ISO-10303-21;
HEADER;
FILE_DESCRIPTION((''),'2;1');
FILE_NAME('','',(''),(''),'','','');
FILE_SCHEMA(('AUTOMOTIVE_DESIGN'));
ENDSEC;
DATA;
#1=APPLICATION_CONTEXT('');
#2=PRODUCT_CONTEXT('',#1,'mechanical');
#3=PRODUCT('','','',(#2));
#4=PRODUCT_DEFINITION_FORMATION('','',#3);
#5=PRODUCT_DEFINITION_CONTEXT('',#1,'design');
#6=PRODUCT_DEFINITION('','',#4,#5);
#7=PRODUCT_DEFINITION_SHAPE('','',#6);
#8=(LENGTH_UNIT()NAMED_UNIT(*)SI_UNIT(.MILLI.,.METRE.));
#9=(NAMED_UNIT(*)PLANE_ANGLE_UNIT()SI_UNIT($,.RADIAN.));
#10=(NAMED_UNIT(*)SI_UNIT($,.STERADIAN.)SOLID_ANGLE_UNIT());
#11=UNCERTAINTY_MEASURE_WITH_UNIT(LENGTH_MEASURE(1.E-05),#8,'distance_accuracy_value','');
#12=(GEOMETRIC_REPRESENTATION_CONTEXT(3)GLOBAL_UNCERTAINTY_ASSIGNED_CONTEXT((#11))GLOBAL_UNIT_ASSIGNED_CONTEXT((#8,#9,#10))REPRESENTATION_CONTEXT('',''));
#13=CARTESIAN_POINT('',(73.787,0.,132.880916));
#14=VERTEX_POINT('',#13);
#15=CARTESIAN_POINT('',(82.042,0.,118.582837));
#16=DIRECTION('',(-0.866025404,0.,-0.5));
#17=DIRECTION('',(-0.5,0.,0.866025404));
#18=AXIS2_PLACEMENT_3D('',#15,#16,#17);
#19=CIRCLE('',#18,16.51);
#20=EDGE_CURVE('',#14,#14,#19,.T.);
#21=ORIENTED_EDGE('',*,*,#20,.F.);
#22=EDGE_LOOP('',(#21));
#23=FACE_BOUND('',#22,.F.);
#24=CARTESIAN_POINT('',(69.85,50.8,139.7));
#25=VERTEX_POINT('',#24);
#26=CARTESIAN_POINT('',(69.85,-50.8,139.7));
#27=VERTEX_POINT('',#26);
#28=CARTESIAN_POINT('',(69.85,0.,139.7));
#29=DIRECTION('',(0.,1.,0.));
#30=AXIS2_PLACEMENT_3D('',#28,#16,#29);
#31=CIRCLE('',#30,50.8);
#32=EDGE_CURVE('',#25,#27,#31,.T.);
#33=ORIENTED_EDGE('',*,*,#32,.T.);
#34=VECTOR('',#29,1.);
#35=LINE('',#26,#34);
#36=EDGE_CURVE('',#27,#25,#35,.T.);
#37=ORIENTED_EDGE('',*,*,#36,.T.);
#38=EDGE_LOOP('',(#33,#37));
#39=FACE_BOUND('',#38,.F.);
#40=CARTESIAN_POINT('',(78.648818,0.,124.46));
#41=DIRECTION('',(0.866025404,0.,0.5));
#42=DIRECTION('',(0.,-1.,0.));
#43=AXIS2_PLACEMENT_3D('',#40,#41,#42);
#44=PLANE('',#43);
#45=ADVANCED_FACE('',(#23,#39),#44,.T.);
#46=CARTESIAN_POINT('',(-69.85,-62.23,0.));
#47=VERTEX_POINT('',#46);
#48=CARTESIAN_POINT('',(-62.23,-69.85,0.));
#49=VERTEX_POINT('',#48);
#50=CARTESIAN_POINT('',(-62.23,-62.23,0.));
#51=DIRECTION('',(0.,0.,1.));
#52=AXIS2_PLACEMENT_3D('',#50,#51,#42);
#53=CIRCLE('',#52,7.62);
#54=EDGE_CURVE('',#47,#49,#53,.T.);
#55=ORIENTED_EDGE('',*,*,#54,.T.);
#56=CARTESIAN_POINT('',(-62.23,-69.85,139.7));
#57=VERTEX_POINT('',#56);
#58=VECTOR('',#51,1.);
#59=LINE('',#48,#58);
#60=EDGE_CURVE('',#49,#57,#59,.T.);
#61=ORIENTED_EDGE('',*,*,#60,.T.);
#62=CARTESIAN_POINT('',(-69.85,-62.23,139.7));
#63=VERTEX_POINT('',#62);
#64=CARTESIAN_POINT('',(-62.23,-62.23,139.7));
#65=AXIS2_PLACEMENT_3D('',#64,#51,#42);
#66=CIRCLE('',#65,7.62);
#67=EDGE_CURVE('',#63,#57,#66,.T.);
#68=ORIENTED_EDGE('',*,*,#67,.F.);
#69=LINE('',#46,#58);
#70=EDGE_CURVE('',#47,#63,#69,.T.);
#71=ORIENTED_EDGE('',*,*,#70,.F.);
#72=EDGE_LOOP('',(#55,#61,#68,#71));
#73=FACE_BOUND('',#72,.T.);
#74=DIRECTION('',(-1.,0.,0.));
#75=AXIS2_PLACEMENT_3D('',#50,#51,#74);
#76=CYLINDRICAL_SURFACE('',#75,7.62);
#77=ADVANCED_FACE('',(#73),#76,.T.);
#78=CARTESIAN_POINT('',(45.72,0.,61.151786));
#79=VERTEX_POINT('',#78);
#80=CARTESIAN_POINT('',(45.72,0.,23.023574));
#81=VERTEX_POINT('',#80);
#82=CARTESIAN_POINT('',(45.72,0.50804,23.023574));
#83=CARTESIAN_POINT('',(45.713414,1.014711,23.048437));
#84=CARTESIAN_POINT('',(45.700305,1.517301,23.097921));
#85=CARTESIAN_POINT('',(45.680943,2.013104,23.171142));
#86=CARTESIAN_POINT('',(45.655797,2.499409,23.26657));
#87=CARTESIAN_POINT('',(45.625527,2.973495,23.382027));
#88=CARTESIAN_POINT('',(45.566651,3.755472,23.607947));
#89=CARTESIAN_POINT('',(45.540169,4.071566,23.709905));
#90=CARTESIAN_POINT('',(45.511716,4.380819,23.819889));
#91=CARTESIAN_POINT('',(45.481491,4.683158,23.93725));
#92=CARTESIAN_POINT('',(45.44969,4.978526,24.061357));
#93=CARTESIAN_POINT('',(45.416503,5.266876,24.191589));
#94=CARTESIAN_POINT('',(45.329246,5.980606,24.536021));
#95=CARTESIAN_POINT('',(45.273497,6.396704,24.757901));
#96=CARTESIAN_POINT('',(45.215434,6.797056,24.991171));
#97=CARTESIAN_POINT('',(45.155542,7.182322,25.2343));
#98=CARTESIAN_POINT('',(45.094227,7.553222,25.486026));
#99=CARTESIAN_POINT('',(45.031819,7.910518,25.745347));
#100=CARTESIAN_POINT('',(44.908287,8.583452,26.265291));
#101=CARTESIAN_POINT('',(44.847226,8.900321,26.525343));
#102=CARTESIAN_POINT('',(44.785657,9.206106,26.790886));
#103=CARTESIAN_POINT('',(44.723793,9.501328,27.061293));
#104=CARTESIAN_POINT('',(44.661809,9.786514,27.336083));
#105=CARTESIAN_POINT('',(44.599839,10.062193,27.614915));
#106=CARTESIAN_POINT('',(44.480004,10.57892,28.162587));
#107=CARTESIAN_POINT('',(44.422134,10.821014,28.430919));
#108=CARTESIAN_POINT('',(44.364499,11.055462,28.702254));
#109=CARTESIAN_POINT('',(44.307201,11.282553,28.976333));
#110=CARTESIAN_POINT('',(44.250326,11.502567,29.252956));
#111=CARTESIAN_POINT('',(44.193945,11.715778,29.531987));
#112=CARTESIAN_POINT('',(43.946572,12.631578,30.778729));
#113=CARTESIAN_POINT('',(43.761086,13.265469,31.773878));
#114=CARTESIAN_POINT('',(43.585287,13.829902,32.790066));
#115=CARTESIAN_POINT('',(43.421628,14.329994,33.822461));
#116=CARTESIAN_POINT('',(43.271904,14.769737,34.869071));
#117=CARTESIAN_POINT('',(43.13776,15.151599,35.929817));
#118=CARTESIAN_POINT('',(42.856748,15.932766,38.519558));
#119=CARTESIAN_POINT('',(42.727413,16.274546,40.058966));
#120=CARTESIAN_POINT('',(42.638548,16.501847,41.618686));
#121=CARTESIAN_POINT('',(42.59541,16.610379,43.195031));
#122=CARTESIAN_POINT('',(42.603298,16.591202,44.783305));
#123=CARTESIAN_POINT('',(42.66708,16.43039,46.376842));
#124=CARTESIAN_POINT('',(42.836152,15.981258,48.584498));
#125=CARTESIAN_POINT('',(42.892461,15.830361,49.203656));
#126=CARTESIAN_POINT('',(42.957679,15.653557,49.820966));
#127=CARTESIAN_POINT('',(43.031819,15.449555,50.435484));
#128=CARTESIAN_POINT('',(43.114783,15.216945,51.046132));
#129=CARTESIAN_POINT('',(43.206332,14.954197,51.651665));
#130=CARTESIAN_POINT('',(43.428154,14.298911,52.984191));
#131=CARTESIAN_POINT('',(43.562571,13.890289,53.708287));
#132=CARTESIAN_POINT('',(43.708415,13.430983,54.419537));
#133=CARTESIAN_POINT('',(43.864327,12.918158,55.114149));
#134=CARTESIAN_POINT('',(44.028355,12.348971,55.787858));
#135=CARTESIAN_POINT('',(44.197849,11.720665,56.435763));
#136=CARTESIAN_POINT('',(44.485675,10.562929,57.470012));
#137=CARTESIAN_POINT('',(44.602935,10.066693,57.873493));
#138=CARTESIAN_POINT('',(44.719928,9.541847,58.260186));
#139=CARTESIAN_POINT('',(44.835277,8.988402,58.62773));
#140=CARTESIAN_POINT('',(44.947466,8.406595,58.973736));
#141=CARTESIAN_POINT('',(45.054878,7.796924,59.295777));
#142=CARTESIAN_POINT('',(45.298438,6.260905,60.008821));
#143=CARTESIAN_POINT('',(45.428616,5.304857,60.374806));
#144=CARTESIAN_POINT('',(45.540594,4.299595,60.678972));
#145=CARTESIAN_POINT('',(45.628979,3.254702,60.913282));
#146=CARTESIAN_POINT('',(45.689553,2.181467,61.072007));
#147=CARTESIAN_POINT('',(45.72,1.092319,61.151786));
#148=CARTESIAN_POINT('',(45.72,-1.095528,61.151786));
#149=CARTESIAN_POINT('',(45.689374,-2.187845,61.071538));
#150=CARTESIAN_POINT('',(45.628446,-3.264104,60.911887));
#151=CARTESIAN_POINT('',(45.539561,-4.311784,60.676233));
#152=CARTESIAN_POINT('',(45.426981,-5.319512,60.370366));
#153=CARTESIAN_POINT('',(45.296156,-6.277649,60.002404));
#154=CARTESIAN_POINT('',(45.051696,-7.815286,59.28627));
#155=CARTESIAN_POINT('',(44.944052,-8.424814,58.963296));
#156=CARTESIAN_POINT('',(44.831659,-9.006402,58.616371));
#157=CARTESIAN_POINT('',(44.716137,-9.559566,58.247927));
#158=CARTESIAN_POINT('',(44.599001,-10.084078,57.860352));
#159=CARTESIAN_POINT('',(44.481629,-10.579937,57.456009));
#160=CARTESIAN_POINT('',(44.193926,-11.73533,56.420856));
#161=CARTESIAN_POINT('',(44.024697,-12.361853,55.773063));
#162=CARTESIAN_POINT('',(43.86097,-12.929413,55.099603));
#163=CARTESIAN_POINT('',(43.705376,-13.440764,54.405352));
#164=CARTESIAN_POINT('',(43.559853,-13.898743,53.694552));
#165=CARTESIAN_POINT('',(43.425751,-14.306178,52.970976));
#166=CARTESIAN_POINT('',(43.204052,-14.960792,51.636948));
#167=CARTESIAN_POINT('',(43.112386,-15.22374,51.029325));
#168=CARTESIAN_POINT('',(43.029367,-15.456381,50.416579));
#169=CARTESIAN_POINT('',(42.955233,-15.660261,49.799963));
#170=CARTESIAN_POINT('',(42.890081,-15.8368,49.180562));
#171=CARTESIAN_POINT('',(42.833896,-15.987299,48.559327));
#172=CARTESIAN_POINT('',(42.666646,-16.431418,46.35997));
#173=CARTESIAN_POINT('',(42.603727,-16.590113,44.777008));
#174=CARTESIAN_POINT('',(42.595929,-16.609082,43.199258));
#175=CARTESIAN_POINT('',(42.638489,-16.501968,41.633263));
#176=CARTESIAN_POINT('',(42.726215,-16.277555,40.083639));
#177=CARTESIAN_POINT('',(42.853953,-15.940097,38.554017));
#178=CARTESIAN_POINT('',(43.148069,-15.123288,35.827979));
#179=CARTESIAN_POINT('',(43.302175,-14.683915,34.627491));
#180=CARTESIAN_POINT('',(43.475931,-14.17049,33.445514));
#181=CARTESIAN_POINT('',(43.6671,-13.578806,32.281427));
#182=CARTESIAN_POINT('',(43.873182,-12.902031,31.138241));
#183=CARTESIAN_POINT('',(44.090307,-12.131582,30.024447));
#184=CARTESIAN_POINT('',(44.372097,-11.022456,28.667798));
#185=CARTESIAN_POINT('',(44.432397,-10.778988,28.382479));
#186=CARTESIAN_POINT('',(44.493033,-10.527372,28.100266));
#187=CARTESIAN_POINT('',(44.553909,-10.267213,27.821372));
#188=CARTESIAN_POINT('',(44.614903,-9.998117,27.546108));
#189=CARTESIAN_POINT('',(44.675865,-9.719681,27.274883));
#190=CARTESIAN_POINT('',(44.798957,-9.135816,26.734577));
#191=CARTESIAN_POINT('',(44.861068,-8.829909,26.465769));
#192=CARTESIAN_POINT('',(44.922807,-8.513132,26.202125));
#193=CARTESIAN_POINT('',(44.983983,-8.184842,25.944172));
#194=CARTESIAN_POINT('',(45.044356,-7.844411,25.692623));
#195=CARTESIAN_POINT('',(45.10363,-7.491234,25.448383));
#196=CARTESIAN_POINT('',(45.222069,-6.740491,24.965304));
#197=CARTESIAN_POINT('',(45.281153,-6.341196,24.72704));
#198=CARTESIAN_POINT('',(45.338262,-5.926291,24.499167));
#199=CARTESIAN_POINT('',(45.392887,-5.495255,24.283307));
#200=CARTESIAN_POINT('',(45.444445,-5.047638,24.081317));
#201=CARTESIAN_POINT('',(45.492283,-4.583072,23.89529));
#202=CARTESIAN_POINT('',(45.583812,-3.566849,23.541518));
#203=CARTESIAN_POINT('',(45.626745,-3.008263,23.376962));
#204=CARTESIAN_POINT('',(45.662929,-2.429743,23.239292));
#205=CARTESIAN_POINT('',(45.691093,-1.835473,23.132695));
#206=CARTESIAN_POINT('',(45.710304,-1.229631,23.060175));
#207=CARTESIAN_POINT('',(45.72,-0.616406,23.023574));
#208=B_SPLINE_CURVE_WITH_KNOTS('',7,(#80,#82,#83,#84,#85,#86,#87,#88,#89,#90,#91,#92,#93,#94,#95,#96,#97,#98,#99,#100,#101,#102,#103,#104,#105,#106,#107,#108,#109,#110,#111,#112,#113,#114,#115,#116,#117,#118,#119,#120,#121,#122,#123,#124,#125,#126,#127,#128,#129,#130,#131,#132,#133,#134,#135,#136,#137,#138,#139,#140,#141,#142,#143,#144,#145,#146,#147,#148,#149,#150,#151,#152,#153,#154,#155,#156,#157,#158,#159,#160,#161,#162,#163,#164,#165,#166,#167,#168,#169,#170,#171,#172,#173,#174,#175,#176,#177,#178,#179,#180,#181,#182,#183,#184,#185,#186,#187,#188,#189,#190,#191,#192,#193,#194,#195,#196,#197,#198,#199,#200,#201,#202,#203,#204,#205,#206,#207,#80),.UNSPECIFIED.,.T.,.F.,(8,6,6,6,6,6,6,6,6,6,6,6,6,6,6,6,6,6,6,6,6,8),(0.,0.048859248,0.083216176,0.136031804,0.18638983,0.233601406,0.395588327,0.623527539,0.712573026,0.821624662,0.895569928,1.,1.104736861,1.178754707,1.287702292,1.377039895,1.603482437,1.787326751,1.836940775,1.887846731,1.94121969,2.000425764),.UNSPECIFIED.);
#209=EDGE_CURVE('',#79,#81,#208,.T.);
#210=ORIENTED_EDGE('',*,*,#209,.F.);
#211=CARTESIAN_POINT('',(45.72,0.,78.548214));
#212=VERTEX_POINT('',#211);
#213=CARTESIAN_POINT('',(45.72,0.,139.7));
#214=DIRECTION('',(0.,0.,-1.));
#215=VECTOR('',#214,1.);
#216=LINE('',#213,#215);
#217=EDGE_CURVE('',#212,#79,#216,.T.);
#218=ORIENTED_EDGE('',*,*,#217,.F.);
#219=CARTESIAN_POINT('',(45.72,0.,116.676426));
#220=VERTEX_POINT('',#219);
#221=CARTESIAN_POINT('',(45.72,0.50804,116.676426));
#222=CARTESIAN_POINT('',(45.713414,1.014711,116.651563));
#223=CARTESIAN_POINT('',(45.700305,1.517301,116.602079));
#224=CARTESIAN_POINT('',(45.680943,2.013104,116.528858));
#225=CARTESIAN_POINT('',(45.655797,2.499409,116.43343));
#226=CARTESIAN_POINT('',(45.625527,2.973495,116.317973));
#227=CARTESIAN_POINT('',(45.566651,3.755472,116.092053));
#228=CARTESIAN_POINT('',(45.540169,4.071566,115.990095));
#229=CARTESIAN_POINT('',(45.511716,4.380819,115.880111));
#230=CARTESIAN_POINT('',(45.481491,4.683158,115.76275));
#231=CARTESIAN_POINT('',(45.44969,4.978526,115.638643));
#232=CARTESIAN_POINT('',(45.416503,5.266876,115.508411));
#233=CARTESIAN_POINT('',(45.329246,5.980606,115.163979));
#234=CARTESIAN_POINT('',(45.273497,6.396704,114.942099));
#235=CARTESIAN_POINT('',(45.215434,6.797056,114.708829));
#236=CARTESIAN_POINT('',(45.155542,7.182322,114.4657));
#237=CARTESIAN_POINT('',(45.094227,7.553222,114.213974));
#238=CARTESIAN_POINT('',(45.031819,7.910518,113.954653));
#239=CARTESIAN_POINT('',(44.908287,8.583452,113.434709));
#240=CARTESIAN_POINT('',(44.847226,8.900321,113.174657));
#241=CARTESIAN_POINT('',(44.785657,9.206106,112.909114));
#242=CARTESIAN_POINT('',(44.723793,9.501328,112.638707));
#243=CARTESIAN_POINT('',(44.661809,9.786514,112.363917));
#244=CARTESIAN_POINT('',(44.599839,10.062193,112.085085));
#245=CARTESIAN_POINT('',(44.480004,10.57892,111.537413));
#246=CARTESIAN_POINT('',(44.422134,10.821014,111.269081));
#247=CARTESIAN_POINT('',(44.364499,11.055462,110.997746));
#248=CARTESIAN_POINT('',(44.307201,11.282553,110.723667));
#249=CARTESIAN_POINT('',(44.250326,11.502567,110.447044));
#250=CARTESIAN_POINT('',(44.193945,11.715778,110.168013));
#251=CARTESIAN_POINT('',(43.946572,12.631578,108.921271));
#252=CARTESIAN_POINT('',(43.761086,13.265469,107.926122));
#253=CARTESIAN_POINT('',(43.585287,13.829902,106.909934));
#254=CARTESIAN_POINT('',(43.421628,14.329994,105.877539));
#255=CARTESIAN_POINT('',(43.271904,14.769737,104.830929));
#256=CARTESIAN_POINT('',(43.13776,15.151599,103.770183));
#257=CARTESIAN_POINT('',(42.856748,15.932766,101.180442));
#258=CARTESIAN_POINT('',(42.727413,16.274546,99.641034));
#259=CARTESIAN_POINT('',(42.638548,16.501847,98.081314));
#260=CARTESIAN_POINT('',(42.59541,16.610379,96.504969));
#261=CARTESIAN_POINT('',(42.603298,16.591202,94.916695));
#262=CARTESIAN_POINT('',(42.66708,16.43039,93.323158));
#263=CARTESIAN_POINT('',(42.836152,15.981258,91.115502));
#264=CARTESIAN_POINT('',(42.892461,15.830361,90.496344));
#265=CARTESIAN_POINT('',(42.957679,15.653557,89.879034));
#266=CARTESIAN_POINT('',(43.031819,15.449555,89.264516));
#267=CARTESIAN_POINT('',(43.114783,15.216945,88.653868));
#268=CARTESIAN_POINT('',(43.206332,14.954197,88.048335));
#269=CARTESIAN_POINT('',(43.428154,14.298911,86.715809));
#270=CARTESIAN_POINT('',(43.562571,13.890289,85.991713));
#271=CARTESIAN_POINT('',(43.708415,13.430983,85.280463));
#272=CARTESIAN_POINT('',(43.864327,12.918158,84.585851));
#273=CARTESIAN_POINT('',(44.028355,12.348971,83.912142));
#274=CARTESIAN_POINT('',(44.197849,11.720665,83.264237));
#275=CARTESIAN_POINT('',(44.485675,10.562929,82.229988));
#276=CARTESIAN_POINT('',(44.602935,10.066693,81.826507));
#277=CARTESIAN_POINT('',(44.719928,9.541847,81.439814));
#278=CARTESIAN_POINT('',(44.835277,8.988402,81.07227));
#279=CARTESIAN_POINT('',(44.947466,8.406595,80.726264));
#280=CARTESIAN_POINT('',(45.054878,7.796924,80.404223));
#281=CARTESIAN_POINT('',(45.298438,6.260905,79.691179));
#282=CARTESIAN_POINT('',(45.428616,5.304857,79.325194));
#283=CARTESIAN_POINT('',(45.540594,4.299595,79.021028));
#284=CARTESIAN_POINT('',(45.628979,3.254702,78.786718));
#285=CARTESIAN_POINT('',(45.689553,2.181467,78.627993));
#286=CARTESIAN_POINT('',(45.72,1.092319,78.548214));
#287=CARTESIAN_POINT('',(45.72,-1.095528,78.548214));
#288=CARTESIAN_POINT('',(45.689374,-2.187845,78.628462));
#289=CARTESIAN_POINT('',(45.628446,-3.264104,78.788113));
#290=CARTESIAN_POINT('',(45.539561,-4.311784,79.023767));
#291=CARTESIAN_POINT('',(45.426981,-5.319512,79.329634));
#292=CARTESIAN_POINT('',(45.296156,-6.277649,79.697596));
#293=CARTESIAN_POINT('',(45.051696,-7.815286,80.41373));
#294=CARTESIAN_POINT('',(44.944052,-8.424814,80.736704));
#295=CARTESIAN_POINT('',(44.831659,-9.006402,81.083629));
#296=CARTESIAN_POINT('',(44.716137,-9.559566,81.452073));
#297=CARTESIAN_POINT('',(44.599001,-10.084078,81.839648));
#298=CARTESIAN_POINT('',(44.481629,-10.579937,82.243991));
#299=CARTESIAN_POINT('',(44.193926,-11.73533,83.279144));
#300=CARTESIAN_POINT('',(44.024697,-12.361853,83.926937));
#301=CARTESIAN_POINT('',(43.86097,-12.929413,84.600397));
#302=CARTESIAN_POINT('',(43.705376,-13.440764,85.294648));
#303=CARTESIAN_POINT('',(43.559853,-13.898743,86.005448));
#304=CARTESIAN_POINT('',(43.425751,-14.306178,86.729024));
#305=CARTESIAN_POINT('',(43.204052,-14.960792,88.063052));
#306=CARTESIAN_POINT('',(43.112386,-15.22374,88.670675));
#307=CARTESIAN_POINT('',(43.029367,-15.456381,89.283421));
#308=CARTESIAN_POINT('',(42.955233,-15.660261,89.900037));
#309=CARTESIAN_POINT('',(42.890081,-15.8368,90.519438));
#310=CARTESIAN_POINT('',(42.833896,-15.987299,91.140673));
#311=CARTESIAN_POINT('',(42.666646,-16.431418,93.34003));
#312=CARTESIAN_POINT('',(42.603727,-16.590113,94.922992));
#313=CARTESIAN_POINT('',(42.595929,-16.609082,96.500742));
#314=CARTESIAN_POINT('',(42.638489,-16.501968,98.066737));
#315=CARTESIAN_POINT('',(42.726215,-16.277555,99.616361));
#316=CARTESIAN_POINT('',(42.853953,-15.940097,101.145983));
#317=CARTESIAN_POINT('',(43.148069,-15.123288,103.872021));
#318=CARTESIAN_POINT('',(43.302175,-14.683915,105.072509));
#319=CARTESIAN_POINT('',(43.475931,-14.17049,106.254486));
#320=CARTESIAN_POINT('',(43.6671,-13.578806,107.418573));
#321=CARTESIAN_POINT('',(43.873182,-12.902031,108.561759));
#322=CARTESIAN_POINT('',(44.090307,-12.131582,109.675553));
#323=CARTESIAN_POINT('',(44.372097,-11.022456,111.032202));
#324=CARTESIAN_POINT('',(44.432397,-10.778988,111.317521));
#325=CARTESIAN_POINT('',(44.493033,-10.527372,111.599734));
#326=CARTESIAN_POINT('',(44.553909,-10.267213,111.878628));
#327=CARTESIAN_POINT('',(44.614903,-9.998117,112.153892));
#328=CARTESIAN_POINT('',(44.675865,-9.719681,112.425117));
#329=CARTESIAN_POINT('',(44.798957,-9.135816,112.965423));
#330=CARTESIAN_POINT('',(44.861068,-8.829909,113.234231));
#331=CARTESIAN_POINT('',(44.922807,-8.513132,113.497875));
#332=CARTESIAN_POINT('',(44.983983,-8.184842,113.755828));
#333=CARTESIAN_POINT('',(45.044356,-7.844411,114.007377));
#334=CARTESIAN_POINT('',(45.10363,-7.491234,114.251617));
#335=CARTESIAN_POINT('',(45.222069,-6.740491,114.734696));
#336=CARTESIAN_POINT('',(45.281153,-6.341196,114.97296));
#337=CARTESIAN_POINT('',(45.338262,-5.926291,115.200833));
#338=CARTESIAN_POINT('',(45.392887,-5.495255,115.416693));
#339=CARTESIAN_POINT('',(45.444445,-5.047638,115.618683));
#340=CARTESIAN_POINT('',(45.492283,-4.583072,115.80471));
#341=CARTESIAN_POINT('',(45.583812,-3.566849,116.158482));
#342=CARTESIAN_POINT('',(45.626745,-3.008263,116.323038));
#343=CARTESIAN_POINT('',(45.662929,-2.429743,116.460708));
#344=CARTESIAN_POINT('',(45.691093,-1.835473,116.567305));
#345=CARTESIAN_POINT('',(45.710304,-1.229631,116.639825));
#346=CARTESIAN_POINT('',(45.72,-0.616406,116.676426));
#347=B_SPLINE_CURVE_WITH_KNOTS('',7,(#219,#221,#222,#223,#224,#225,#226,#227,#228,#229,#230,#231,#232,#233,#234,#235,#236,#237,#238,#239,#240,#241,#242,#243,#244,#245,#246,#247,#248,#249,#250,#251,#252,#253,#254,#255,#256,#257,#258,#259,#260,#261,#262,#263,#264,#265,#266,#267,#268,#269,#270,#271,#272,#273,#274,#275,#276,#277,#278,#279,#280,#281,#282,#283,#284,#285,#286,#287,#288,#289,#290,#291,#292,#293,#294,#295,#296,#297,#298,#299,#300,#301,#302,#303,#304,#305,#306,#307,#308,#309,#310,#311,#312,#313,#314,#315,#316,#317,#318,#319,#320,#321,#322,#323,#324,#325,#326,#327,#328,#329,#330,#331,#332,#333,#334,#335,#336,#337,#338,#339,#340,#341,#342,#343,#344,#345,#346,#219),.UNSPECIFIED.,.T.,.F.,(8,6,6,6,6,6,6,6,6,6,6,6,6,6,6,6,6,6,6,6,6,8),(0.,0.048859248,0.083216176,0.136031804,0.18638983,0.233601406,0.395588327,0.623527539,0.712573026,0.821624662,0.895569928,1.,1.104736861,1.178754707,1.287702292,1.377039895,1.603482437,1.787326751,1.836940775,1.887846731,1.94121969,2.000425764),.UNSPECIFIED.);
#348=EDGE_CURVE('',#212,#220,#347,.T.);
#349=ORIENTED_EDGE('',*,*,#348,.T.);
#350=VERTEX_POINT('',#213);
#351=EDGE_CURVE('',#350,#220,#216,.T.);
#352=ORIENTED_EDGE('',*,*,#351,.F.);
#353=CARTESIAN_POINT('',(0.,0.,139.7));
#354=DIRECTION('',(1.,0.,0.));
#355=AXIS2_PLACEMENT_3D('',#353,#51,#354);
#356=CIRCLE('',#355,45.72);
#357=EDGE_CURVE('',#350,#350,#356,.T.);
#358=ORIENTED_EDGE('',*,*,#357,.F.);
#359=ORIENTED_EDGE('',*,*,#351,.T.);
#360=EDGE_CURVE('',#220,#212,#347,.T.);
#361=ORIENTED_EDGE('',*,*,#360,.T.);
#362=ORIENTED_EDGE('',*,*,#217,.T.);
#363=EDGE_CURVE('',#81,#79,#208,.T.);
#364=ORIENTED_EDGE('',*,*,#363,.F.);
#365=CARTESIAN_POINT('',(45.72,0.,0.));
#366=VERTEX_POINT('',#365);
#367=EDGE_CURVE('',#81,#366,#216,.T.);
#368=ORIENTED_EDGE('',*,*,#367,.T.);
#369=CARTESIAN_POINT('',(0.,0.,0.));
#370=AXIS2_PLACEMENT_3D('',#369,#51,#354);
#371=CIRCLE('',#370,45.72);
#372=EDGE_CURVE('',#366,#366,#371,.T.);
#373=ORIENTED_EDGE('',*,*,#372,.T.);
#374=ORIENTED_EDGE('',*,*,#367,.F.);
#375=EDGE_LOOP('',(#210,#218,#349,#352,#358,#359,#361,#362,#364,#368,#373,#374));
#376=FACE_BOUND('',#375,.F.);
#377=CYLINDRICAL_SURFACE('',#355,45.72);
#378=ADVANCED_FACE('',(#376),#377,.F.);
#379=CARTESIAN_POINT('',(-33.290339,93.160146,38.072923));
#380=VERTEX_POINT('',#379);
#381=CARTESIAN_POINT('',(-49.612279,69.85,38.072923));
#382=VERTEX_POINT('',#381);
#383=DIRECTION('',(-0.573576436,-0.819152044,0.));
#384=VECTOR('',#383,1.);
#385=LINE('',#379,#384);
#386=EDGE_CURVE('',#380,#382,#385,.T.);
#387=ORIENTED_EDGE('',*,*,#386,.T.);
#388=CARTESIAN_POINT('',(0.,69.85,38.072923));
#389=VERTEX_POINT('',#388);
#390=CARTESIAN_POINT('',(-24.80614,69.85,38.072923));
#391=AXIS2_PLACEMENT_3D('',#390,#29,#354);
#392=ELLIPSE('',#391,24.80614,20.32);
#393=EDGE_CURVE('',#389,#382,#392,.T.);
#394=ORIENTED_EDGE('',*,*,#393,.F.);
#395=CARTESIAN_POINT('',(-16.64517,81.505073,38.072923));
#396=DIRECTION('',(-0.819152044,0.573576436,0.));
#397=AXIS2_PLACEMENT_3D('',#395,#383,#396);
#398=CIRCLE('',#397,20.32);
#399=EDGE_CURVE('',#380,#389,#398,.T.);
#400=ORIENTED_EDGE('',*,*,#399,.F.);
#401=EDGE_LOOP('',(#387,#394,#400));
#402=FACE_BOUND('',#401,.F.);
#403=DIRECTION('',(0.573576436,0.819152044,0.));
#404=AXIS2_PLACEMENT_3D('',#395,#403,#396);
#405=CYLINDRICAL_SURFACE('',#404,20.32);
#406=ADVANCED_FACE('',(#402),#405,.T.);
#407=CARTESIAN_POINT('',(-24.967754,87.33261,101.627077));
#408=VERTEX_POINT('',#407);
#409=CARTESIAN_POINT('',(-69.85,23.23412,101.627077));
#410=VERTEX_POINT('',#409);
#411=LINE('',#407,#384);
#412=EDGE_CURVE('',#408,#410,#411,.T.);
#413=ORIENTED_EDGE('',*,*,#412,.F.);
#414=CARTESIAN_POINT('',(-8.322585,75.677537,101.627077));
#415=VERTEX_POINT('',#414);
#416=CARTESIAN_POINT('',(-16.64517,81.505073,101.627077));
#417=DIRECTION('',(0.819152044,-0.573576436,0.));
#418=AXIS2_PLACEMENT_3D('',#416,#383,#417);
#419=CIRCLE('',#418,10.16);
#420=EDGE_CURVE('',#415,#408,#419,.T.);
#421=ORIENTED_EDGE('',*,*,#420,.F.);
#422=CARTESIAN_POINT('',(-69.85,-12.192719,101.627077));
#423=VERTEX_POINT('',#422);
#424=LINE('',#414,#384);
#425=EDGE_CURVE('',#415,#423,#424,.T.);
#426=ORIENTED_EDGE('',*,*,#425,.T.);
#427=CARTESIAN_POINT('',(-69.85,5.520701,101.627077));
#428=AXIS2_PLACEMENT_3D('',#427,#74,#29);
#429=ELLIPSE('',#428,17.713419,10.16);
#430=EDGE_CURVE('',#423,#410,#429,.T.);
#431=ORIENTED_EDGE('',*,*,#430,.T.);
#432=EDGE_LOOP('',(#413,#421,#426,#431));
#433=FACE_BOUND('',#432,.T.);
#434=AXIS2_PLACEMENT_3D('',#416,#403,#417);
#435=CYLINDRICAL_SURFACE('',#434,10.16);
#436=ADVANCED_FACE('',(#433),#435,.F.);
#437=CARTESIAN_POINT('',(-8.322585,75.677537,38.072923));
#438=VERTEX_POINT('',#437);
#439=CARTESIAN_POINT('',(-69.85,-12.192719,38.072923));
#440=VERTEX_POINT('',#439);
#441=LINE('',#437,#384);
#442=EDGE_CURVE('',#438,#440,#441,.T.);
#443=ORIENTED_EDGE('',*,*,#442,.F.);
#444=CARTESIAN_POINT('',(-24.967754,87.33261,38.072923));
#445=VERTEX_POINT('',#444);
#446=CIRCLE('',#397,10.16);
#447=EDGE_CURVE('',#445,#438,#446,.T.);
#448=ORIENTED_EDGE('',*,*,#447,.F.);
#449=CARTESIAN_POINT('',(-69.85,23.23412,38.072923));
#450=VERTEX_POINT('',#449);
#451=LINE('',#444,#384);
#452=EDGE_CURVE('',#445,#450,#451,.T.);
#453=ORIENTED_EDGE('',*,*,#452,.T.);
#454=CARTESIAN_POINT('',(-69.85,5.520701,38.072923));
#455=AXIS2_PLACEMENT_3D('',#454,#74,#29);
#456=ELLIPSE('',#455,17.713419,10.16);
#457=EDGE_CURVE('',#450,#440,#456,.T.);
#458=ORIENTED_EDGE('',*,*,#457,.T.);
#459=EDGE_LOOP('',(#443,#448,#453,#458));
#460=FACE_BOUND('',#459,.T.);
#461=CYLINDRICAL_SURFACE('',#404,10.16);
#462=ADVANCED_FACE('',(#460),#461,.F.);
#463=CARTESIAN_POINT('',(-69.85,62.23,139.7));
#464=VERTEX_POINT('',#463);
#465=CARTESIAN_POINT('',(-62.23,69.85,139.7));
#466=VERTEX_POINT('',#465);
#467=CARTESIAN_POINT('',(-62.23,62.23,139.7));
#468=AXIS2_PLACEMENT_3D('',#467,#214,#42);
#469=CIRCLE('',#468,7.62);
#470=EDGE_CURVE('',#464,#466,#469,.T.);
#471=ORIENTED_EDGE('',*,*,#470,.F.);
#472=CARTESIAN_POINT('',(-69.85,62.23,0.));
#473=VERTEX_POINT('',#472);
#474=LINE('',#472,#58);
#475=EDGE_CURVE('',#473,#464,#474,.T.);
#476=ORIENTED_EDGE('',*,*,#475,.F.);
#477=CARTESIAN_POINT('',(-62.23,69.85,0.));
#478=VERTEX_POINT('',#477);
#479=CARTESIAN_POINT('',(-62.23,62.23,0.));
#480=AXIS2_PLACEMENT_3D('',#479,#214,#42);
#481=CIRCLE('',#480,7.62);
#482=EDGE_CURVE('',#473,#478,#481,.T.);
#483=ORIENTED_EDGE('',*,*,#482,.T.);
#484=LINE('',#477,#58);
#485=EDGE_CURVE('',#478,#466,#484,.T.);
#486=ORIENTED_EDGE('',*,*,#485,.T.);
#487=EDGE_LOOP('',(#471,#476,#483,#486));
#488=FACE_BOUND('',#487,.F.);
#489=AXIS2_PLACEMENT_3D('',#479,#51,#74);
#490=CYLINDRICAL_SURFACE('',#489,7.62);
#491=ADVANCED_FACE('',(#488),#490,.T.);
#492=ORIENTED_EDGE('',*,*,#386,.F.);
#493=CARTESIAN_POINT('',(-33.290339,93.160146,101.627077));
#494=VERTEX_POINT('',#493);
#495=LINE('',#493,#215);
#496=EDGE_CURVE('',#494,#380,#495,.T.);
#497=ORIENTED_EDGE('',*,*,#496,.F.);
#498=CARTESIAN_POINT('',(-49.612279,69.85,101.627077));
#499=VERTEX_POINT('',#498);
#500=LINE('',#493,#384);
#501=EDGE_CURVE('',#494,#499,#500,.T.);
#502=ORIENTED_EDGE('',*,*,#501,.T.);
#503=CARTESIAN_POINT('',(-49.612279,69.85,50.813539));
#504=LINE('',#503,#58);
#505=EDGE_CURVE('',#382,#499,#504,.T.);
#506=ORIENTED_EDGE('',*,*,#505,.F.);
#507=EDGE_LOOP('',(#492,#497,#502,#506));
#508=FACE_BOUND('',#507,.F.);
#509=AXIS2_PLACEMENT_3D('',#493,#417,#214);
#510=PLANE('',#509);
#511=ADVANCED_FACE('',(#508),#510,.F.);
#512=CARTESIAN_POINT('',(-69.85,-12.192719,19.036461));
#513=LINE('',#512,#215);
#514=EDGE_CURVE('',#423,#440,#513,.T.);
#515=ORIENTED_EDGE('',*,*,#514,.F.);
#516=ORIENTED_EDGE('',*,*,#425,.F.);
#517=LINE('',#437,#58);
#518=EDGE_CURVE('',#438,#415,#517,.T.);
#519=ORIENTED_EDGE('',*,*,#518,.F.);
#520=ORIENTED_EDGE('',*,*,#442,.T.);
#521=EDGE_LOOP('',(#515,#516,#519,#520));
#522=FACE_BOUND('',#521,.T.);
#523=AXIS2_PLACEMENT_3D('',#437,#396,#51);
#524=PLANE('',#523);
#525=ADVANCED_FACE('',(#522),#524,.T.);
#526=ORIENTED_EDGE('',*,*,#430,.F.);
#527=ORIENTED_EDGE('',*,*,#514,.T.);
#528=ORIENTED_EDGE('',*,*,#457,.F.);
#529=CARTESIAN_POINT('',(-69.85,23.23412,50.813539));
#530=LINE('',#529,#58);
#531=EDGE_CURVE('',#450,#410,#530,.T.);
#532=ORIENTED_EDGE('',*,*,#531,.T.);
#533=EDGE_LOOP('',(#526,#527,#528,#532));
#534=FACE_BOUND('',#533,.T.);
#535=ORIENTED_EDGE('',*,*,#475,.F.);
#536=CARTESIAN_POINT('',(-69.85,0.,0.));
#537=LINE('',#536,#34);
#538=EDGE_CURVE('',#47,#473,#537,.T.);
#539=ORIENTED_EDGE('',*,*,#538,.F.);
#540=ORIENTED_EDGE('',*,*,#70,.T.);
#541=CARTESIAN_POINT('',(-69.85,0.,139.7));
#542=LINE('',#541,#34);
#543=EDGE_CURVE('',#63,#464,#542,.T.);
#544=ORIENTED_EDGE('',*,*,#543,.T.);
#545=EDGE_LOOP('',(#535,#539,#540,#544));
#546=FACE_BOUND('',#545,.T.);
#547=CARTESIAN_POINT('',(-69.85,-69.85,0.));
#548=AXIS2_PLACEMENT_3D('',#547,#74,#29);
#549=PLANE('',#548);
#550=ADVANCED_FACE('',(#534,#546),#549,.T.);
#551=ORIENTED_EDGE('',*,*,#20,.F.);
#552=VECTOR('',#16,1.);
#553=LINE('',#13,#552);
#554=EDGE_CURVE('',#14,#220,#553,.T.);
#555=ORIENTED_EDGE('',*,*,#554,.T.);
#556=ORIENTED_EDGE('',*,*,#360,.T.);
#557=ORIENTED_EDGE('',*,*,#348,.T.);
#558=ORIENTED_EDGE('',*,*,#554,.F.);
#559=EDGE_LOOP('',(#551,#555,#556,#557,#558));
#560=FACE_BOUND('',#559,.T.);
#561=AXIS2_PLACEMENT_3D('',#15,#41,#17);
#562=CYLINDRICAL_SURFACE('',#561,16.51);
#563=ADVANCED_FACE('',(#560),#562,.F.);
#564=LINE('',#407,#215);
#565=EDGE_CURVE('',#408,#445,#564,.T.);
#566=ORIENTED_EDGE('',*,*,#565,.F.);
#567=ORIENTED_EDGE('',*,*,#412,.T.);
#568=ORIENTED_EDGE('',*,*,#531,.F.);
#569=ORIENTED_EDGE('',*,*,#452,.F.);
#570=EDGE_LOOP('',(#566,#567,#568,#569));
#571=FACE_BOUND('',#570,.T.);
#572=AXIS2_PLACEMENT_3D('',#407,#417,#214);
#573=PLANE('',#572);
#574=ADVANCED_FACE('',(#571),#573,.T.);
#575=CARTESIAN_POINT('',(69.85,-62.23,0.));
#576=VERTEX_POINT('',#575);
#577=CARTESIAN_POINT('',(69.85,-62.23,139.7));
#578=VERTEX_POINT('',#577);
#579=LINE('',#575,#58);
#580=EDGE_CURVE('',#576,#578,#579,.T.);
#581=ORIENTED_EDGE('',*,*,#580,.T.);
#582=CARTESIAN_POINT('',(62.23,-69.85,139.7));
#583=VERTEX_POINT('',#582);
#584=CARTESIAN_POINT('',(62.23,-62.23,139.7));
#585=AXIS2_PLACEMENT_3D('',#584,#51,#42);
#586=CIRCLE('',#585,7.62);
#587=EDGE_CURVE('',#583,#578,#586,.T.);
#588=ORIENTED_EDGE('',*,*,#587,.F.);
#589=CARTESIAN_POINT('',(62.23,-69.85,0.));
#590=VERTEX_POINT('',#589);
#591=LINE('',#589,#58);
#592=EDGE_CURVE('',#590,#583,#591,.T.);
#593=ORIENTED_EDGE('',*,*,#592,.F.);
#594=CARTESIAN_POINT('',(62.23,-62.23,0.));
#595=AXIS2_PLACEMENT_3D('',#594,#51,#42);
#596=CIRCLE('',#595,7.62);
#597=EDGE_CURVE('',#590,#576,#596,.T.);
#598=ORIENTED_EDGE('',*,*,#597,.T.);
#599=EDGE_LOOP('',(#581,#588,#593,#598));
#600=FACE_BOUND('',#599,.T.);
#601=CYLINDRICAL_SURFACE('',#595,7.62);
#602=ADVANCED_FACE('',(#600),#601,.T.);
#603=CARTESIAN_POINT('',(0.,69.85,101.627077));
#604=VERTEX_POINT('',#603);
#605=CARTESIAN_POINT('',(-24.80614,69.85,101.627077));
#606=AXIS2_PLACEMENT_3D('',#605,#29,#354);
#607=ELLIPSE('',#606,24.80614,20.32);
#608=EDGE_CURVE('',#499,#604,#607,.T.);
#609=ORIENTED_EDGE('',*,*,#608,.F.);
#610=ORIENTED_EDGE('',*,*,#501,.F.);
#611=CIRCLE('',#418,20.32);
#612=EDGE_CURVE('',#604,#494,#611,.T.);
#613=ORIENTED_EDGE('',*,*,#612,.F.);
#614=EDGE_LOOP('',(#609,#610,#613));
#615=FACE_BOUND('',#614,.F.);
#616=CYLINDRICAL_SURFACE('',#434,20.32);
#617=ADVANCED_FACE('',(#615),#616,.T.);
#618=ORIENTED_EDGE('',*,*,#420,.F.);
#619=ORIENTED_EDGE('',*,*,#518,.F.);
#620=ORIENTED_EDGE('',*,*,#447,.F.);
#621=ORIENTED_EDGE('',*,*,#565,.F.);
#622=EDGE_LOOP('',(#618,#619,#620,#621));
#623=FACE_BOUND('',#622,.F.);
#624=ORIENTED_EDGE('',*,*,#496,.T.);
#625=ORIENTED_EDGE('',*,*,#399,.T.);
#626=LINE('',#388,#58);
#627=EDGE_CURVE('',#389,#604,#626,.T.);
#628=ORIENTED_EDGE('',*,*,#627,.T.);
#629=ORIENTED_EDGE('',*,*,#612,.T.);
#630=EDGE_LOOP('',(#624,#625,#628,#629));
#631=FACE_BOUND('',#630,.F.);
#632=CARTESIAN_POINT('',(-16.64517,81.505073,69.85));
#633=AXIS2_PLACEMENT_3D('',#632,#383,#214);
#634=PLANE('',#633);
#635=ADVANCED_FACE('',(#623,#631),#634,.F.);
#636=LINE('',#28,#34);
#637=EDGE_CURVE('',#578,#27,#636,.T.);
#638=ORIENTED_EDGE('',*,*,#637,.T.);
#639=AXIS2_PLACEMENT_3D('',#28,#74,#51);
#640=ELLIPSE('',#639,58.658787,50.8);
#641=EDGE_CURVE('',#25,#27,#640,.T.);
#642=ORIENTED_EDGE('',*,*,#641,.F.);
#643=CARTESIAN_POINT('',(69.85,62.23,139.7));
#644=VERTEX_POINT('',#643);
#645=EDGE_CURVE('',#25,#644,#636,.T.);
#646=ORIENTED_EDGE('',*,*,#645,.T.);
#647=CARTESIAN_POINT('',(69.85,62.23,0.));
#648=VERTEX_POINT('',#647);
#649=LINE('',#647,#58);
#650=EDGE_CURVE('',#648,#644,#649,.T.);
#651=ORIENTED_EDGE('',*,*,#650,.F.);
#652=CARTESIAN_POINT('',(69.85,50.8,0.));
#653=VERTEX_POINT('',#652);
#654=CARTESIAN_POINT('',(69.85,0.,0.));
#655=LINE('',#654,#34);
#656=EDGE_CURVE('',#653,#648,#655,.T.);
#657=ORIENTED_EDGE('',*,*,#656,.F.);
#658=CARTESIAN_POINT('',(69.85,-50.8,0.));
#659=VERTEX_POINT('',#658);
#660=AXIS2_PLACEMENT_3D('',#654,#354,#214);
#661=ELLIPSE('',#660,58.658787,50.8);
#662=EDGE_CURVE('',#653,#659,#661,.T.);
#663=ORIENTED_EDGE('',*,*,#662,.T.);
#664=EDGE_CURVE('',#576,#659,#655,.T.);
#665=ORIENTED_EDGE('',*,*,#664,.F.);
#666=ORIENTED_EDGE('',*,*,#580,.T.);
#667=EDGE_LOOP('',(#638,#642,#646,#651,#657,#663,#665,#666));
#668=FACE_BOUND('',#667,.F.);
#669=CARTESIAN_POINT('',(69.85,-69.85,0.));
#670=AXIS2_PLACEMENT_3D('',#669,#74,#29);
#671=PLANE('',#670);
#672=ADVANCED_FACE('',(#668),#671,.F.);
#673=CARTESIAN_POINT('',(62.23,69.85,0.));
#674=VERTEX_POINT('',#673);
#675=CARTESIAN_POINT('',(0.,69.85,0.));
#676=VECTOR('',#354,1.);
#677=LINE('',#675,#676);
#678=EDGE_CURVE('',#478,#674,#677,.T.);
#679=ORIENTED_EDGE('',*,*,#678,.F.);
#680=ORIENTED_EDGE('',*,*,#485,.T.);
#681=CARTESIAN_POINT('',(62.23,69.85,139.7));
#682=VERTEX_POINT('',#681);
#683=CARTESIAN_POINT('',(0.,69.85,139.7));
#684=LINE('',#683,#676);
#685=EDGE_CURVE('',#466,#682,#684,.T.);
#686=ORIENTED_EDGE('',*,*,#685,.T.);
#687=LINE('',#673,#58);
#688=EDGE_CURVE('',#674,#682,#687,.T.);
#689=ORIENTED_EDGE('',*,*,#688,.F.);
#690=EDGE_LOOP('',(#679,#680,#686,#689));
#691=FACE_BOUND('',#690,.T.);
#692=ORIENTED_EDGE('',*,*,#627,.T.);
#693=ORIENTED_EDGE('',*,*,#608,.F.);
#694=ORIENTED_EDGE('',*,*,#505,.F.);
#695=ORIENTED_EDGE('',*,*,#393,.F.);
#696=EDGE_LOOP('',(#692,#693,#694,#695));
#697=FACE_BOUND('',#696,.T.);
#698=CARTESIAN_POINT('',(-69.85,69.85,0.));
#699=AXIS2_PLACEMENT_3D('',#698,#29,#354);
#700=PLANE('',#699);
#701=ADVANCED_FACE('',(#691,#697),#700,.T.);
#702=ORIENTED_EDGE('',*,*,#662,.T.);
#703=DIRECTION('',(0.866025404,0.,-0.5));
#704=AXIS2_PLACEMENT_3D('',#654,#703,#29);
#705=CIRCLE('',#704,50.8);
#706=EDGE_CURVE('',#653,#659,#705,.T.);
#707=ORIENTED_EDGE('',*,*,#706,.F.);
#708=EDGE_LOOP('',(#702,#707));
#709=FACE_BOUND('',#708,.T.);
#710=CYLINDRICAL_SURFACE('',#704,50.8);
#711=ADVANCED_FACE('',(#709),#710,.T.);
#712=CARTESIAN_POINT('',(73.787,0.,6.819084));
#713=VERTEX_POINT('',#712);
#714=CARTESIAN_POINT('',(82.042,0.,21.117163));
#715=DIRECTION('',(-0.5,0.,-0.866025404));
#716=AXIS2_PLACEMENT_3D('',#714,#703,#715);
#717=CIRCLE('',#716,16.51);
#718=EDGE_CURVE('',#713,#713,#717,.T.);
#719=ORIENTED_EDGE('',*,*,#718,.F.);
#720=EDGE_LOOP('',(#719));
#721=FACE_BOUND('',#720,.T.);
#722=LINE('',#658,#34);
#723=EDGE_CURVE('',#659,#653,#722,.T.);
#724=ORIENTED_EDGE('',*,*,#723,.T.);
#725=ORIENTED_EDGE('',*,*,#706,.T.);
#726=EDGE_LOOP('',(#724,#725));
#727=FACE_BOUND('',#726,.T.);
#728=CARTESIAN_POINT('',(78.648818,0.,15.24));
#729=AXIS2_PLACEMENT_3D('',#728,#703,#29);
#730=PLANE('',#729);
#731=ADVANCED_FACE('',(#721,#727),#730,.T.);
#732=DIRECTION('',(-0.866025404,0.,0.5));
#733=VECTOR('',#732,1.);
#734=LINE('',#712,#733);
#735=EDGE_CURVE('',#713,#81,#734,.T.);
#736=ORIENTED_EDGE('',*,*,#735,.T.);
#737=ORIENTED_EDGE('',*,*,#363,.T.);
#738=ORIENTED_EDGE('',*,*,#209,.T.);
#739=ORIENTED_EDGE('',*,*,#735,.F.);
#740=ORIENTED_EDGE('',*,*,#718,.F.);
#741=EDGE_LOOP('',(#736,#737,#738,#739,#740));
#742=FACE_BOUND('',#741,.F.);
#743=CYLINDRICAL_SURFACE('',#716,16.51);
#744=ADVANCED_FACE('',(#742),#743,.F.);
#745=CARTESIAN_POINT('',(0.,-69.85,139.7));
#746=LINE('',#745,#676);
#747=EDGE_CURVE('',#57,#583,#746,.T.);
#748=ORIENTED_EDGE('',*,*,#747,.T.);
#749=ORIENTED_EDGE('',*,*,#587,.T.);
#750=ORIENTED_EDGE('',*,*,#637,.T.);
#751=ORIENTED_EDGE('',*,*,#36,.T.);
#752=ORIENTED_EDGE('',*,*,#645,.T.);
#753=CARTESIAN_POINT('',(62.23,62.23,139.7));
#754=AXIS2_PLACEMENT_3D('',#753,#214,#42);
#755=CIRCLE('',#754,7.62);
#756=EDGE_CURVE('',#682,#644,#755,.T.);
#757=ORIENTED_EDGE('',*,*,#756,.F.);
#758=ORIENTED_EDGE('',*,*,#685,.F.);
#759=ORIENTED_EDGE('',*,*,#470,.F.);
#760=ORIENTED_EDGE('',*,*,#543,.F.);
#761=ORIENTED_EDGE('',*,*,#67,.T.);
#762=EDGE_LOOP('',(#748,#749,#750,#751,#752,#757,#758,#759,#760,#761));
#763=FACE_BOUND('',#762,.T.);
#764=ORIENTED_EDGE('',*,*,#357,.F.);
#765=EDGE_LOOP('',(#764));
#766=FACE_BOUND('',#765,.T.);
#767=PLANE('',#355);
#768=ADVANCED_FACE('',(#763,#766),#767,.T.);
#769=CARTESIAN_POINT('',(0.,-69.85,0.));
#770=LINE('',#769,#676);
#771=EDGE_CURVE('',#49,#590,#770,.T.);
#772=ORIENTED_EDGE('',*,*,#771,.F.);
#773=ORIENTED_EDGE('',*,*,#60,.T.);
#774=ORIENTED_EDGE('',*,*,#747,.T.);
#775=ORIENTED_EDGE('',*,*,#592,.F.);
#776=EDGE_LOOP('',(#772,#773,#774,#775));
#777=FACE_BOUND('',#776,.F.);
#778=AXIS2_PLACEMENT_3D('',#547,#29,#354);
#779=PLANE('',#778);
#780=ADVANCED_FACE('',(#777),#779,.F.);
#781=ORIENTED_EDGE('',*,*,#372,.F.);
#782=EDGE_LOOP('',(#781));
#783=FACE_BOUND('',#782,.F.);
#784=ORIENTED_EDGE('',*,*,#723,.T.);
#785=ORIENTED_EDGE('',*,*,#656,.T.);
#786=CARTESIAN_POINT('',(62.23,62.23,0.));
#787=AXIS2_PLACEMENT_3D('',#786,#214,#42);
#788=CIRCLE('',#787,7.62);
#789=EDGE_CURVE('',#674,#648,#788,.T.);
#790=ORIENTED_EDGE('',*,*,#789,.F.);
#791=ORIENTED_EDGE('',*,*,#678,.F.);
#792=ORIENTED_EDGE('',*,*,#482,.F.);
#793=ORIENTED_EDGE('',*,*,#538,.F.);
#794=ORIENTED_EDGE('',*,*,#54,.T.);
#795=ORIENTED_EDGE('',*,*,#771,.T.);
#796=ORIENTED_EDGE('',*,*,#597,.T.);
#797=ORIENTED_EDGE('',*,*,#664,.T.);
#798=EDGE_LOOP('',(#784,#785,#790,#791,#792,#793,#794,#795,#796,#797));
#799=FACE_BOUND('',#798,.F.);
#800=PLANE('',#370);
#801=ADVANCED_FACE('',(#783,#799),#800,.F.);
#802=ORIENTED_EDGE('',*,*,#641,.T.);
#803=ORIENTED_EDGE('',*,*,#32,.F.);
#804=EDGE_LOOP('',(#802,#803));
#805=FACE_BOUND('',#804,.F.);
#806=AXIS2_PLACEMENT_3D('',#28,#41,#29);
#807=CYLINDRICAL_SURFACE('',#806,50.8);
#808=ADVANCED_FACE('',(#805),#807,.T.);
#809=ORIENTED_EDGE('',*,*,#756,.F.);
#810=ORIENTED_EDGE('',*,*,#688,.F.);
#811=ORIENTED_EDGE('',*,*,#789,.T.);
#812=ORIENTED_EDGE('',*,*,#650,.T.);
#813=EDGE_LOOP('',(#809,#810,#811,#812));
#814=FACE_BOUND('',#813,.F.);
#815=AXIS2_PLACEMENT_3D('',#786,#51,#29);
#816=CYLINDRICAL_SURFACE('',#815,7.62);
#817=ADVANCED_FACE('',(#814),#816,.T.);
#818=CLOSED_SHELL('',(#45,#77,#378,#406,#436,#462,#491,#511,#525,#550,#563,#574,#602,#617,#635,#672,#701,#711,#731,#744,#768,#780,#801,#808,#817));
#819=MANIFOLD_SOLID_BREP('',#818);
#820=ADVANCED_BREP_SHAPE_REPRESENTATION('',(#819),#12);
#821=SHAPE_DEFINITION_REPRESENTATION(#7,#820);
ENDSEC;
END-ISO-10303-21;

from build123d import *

# Parameters (mm, degrees)
SKETCH1_W               = 139.7
SKETCH1_H               = 139.7
BOSS_EXTRUDE1_DEPTH     = 139.7
FILLET1_R               = 7.62
FILLET2_R               = 7.62
BOSS_EXTRUDE3_REACH     = 210.999
CUT_EXTRUDE2_DEPTH      = 209.804
SKETCH9_R               = 45.72
CUT_EXTRUDE3_DEPTH      = 209.804
BOSS_EXTRUDE4_REACH     = 231.134
CUT_EXTRUDE4_REACH      = 231.134
CUT_EXTRUDE4_END_RADIUS = 45.72
SKETCH11_R              = 16.51


with BuildPart() as part:
    # Sketch1 → Boss-Extrude1 (new body)
    with BuildSketch(Plane.XY):
        Rectangle(SKETCH1_W, SKETCH1_H)
    extrude(amount=BOSS_EXTRUDE1_DEPTH)

    # Fillet1
    fillet1_edges = [part.edges().sort_by_distance(p)[0] for p in [
        (-69.85, 69.85, 69.85),
    ]]
    fillet(fillet1_edges, radius=FILLET1_R)

    # Fillet2
    fillet2_edges = [part.edges().sort_by_distance(p)[0] for p in [
        (69.85, -69.85, 69.85),
        (-69.85, -69.85, 69.85),
        (69.85, 69.85, 69.85),
    ]]
    fillet(fillet2_edges, radius=FILLET2_R)

    # Sketch6 → Boss-Extrude3 (add, up to next)
    with BuildSketch(Plane(origin=(32.818764781, 46.870053506, 0), x_dir=(0, 0, 1), z_dir=(0.5735764363510473, 0.819152044288991, 0)), mode=Mode.PRIVATE) as boss_extrude3_sk1:
        with BuildLine():
            Line((38.072922524, -40.064314079), (101.627077476, -40.064314079))
            ThreePointArc((101.627077476, -40.064314079), (121.947077476, -60.384314079), (101.627077476, -80.704314079))
            Line((101.627077476, -80.704314079), (38.072922524, -80.704314079))
            ThreePointArc((38.072922524, -80.704314079), (17.752922524, -60.384314079), (38.072922524, -40.064314079))
        make_face()
    boss_extrude3_tool1 = extrude(boss_extrude3_sk1.sketch, amount=-BOSS_EXTRUDE3_REACH, mode=Mode.PRIVATE) - part.part
    add(boss_extrude3_tool1.solids().sort_by_distance((-16.64517, 81.505073, 69.85))[0])

    # Sketch8 → Cut-Extrude2 (cut)
    with BuildSketch(Plane(origin=(32.818764781, 46.870053506, 0), x_dir=(0.819152044288991, -0.5735764363510474, 0), z_dir=(0.5735764363510474, 0.819152044288991, 0))):
        with BuildLine():
            Line((-70.544314079, -101.627077476), (-70.544314079, -38.072922524))
            ThreePointArc((-70.544314079, -38.072922524), (-60.384314079, -27.912922524), (-50.224314079, -38.072922524))
            Line((-50.224314079, -38.072922524), (-50.224314079, -101.627077476))
            ThreePointArc((-50.224314079, -101.627077476), (-60.384314079, -111.787077476), (-70.544314079, -101.627077476))
        make_face()
    extrude(amount=-CUT_EXTRUDE2_DEPTH, mode=Mode.SUBTRACT)

    # Sketch9 → Cut-Extrude3 (cut)
    with BuildSketch(Plane.XY.offset(139.7)):
        Circle(SKETCH9_R)
    extrude(amount=-CUT_EXTRUDE3_DEPTH, mode=Mode.SUBTRACT)

    # Boss-Extrude4: up to this face of the body (flat: up to its plane)
    boss_extrude4_end = Plane(part.part.faces().sort_by_distance((69.85, 0, 69.85))[0])
    # Sketch10 → Boss-Extrude4 (add, up to the picked face)
    with BuildSketch(Plane(origin=(52.3875, 0, -30.245937227), x_dir=(0, 1, 0), z_dir=(0.866025403784438, 0, -0.5000000000000009)), mode=Mode.PRIVATE) as boss_extrude4_sk1:
        with BuildLine():
            Line((-50.8, 34.925), (50.8, 34.925))
            ThreePointArc((50.8, 34.925), (0, 85.725), (-50.8, 34.925))
        make_face()
    boss_extrude4_tool1 = split(extrude(boss_extrude4_sk1.sketch, amount=-BOSS_EXTRUDE4_REACH, mode=Mode.PRIVATE), bisect_by=boss_extrude4_end, keep=Keep.BOTH, mode=Mode.PRIVATE)
    boss_extrude4 = boss_extrude4_tool1.solids().sort_by(Axis((80.630095, 0, 18.671672), (-0.866025403784438, 0, 0.5000000000000009)))[0]
    add(boss_extrude4)

    # Cut-Extrude4: up to this cylinder (the profile starts outside it)
    cut_extrude4_end = Plane(origin=(0, 0, 21.117163), z_dir=(0, 0, 1)) * Cylinder(CUT_EXTRUDE4_END_RADIUS, 554.708, mode=Mode.PRIVATE)
    # Sketch11 → Cut-Extrude4 (cut, up to the surface)
    with BuildSketch(Plane(origin=(52.3875, 0, -30.245937227), x_dir=(-0.5000000000000012, 0, -0.866025403784438), z_dir=(0.8660254037844379, 0, -0.5000000000000011)), mode=Mode.PRIVATE) as cut_extrude4_sk1:
        with Locations((-59.309, 0)):
            Circle(SKETCH11_R)
    cut_extrude4_tool1 = extrude(cut_extrude4_sk1.sketch, amount=-CUT_EXTRUDE4_REACH, mode=Mode.PRIVATE) - cut_extrude4_end
    cut_extrude4 = cut_extrude4_tool1.solids().sort_by_distance((82.042, 0, 21.117163))[0]
    add(cut_extrude4, mode=Mode.SUBTRACT)

    # Mirror1: Boss-Extrude4, Cut-Extrude4 across plane
    add(boss_extrude4.mirror(Plane.XY.offset(69.85)))
    add(cut_extrude4.mirror(Plane.XY.offset(69.85)), mode=Mode.SUBTRACT)


solid = part.part
